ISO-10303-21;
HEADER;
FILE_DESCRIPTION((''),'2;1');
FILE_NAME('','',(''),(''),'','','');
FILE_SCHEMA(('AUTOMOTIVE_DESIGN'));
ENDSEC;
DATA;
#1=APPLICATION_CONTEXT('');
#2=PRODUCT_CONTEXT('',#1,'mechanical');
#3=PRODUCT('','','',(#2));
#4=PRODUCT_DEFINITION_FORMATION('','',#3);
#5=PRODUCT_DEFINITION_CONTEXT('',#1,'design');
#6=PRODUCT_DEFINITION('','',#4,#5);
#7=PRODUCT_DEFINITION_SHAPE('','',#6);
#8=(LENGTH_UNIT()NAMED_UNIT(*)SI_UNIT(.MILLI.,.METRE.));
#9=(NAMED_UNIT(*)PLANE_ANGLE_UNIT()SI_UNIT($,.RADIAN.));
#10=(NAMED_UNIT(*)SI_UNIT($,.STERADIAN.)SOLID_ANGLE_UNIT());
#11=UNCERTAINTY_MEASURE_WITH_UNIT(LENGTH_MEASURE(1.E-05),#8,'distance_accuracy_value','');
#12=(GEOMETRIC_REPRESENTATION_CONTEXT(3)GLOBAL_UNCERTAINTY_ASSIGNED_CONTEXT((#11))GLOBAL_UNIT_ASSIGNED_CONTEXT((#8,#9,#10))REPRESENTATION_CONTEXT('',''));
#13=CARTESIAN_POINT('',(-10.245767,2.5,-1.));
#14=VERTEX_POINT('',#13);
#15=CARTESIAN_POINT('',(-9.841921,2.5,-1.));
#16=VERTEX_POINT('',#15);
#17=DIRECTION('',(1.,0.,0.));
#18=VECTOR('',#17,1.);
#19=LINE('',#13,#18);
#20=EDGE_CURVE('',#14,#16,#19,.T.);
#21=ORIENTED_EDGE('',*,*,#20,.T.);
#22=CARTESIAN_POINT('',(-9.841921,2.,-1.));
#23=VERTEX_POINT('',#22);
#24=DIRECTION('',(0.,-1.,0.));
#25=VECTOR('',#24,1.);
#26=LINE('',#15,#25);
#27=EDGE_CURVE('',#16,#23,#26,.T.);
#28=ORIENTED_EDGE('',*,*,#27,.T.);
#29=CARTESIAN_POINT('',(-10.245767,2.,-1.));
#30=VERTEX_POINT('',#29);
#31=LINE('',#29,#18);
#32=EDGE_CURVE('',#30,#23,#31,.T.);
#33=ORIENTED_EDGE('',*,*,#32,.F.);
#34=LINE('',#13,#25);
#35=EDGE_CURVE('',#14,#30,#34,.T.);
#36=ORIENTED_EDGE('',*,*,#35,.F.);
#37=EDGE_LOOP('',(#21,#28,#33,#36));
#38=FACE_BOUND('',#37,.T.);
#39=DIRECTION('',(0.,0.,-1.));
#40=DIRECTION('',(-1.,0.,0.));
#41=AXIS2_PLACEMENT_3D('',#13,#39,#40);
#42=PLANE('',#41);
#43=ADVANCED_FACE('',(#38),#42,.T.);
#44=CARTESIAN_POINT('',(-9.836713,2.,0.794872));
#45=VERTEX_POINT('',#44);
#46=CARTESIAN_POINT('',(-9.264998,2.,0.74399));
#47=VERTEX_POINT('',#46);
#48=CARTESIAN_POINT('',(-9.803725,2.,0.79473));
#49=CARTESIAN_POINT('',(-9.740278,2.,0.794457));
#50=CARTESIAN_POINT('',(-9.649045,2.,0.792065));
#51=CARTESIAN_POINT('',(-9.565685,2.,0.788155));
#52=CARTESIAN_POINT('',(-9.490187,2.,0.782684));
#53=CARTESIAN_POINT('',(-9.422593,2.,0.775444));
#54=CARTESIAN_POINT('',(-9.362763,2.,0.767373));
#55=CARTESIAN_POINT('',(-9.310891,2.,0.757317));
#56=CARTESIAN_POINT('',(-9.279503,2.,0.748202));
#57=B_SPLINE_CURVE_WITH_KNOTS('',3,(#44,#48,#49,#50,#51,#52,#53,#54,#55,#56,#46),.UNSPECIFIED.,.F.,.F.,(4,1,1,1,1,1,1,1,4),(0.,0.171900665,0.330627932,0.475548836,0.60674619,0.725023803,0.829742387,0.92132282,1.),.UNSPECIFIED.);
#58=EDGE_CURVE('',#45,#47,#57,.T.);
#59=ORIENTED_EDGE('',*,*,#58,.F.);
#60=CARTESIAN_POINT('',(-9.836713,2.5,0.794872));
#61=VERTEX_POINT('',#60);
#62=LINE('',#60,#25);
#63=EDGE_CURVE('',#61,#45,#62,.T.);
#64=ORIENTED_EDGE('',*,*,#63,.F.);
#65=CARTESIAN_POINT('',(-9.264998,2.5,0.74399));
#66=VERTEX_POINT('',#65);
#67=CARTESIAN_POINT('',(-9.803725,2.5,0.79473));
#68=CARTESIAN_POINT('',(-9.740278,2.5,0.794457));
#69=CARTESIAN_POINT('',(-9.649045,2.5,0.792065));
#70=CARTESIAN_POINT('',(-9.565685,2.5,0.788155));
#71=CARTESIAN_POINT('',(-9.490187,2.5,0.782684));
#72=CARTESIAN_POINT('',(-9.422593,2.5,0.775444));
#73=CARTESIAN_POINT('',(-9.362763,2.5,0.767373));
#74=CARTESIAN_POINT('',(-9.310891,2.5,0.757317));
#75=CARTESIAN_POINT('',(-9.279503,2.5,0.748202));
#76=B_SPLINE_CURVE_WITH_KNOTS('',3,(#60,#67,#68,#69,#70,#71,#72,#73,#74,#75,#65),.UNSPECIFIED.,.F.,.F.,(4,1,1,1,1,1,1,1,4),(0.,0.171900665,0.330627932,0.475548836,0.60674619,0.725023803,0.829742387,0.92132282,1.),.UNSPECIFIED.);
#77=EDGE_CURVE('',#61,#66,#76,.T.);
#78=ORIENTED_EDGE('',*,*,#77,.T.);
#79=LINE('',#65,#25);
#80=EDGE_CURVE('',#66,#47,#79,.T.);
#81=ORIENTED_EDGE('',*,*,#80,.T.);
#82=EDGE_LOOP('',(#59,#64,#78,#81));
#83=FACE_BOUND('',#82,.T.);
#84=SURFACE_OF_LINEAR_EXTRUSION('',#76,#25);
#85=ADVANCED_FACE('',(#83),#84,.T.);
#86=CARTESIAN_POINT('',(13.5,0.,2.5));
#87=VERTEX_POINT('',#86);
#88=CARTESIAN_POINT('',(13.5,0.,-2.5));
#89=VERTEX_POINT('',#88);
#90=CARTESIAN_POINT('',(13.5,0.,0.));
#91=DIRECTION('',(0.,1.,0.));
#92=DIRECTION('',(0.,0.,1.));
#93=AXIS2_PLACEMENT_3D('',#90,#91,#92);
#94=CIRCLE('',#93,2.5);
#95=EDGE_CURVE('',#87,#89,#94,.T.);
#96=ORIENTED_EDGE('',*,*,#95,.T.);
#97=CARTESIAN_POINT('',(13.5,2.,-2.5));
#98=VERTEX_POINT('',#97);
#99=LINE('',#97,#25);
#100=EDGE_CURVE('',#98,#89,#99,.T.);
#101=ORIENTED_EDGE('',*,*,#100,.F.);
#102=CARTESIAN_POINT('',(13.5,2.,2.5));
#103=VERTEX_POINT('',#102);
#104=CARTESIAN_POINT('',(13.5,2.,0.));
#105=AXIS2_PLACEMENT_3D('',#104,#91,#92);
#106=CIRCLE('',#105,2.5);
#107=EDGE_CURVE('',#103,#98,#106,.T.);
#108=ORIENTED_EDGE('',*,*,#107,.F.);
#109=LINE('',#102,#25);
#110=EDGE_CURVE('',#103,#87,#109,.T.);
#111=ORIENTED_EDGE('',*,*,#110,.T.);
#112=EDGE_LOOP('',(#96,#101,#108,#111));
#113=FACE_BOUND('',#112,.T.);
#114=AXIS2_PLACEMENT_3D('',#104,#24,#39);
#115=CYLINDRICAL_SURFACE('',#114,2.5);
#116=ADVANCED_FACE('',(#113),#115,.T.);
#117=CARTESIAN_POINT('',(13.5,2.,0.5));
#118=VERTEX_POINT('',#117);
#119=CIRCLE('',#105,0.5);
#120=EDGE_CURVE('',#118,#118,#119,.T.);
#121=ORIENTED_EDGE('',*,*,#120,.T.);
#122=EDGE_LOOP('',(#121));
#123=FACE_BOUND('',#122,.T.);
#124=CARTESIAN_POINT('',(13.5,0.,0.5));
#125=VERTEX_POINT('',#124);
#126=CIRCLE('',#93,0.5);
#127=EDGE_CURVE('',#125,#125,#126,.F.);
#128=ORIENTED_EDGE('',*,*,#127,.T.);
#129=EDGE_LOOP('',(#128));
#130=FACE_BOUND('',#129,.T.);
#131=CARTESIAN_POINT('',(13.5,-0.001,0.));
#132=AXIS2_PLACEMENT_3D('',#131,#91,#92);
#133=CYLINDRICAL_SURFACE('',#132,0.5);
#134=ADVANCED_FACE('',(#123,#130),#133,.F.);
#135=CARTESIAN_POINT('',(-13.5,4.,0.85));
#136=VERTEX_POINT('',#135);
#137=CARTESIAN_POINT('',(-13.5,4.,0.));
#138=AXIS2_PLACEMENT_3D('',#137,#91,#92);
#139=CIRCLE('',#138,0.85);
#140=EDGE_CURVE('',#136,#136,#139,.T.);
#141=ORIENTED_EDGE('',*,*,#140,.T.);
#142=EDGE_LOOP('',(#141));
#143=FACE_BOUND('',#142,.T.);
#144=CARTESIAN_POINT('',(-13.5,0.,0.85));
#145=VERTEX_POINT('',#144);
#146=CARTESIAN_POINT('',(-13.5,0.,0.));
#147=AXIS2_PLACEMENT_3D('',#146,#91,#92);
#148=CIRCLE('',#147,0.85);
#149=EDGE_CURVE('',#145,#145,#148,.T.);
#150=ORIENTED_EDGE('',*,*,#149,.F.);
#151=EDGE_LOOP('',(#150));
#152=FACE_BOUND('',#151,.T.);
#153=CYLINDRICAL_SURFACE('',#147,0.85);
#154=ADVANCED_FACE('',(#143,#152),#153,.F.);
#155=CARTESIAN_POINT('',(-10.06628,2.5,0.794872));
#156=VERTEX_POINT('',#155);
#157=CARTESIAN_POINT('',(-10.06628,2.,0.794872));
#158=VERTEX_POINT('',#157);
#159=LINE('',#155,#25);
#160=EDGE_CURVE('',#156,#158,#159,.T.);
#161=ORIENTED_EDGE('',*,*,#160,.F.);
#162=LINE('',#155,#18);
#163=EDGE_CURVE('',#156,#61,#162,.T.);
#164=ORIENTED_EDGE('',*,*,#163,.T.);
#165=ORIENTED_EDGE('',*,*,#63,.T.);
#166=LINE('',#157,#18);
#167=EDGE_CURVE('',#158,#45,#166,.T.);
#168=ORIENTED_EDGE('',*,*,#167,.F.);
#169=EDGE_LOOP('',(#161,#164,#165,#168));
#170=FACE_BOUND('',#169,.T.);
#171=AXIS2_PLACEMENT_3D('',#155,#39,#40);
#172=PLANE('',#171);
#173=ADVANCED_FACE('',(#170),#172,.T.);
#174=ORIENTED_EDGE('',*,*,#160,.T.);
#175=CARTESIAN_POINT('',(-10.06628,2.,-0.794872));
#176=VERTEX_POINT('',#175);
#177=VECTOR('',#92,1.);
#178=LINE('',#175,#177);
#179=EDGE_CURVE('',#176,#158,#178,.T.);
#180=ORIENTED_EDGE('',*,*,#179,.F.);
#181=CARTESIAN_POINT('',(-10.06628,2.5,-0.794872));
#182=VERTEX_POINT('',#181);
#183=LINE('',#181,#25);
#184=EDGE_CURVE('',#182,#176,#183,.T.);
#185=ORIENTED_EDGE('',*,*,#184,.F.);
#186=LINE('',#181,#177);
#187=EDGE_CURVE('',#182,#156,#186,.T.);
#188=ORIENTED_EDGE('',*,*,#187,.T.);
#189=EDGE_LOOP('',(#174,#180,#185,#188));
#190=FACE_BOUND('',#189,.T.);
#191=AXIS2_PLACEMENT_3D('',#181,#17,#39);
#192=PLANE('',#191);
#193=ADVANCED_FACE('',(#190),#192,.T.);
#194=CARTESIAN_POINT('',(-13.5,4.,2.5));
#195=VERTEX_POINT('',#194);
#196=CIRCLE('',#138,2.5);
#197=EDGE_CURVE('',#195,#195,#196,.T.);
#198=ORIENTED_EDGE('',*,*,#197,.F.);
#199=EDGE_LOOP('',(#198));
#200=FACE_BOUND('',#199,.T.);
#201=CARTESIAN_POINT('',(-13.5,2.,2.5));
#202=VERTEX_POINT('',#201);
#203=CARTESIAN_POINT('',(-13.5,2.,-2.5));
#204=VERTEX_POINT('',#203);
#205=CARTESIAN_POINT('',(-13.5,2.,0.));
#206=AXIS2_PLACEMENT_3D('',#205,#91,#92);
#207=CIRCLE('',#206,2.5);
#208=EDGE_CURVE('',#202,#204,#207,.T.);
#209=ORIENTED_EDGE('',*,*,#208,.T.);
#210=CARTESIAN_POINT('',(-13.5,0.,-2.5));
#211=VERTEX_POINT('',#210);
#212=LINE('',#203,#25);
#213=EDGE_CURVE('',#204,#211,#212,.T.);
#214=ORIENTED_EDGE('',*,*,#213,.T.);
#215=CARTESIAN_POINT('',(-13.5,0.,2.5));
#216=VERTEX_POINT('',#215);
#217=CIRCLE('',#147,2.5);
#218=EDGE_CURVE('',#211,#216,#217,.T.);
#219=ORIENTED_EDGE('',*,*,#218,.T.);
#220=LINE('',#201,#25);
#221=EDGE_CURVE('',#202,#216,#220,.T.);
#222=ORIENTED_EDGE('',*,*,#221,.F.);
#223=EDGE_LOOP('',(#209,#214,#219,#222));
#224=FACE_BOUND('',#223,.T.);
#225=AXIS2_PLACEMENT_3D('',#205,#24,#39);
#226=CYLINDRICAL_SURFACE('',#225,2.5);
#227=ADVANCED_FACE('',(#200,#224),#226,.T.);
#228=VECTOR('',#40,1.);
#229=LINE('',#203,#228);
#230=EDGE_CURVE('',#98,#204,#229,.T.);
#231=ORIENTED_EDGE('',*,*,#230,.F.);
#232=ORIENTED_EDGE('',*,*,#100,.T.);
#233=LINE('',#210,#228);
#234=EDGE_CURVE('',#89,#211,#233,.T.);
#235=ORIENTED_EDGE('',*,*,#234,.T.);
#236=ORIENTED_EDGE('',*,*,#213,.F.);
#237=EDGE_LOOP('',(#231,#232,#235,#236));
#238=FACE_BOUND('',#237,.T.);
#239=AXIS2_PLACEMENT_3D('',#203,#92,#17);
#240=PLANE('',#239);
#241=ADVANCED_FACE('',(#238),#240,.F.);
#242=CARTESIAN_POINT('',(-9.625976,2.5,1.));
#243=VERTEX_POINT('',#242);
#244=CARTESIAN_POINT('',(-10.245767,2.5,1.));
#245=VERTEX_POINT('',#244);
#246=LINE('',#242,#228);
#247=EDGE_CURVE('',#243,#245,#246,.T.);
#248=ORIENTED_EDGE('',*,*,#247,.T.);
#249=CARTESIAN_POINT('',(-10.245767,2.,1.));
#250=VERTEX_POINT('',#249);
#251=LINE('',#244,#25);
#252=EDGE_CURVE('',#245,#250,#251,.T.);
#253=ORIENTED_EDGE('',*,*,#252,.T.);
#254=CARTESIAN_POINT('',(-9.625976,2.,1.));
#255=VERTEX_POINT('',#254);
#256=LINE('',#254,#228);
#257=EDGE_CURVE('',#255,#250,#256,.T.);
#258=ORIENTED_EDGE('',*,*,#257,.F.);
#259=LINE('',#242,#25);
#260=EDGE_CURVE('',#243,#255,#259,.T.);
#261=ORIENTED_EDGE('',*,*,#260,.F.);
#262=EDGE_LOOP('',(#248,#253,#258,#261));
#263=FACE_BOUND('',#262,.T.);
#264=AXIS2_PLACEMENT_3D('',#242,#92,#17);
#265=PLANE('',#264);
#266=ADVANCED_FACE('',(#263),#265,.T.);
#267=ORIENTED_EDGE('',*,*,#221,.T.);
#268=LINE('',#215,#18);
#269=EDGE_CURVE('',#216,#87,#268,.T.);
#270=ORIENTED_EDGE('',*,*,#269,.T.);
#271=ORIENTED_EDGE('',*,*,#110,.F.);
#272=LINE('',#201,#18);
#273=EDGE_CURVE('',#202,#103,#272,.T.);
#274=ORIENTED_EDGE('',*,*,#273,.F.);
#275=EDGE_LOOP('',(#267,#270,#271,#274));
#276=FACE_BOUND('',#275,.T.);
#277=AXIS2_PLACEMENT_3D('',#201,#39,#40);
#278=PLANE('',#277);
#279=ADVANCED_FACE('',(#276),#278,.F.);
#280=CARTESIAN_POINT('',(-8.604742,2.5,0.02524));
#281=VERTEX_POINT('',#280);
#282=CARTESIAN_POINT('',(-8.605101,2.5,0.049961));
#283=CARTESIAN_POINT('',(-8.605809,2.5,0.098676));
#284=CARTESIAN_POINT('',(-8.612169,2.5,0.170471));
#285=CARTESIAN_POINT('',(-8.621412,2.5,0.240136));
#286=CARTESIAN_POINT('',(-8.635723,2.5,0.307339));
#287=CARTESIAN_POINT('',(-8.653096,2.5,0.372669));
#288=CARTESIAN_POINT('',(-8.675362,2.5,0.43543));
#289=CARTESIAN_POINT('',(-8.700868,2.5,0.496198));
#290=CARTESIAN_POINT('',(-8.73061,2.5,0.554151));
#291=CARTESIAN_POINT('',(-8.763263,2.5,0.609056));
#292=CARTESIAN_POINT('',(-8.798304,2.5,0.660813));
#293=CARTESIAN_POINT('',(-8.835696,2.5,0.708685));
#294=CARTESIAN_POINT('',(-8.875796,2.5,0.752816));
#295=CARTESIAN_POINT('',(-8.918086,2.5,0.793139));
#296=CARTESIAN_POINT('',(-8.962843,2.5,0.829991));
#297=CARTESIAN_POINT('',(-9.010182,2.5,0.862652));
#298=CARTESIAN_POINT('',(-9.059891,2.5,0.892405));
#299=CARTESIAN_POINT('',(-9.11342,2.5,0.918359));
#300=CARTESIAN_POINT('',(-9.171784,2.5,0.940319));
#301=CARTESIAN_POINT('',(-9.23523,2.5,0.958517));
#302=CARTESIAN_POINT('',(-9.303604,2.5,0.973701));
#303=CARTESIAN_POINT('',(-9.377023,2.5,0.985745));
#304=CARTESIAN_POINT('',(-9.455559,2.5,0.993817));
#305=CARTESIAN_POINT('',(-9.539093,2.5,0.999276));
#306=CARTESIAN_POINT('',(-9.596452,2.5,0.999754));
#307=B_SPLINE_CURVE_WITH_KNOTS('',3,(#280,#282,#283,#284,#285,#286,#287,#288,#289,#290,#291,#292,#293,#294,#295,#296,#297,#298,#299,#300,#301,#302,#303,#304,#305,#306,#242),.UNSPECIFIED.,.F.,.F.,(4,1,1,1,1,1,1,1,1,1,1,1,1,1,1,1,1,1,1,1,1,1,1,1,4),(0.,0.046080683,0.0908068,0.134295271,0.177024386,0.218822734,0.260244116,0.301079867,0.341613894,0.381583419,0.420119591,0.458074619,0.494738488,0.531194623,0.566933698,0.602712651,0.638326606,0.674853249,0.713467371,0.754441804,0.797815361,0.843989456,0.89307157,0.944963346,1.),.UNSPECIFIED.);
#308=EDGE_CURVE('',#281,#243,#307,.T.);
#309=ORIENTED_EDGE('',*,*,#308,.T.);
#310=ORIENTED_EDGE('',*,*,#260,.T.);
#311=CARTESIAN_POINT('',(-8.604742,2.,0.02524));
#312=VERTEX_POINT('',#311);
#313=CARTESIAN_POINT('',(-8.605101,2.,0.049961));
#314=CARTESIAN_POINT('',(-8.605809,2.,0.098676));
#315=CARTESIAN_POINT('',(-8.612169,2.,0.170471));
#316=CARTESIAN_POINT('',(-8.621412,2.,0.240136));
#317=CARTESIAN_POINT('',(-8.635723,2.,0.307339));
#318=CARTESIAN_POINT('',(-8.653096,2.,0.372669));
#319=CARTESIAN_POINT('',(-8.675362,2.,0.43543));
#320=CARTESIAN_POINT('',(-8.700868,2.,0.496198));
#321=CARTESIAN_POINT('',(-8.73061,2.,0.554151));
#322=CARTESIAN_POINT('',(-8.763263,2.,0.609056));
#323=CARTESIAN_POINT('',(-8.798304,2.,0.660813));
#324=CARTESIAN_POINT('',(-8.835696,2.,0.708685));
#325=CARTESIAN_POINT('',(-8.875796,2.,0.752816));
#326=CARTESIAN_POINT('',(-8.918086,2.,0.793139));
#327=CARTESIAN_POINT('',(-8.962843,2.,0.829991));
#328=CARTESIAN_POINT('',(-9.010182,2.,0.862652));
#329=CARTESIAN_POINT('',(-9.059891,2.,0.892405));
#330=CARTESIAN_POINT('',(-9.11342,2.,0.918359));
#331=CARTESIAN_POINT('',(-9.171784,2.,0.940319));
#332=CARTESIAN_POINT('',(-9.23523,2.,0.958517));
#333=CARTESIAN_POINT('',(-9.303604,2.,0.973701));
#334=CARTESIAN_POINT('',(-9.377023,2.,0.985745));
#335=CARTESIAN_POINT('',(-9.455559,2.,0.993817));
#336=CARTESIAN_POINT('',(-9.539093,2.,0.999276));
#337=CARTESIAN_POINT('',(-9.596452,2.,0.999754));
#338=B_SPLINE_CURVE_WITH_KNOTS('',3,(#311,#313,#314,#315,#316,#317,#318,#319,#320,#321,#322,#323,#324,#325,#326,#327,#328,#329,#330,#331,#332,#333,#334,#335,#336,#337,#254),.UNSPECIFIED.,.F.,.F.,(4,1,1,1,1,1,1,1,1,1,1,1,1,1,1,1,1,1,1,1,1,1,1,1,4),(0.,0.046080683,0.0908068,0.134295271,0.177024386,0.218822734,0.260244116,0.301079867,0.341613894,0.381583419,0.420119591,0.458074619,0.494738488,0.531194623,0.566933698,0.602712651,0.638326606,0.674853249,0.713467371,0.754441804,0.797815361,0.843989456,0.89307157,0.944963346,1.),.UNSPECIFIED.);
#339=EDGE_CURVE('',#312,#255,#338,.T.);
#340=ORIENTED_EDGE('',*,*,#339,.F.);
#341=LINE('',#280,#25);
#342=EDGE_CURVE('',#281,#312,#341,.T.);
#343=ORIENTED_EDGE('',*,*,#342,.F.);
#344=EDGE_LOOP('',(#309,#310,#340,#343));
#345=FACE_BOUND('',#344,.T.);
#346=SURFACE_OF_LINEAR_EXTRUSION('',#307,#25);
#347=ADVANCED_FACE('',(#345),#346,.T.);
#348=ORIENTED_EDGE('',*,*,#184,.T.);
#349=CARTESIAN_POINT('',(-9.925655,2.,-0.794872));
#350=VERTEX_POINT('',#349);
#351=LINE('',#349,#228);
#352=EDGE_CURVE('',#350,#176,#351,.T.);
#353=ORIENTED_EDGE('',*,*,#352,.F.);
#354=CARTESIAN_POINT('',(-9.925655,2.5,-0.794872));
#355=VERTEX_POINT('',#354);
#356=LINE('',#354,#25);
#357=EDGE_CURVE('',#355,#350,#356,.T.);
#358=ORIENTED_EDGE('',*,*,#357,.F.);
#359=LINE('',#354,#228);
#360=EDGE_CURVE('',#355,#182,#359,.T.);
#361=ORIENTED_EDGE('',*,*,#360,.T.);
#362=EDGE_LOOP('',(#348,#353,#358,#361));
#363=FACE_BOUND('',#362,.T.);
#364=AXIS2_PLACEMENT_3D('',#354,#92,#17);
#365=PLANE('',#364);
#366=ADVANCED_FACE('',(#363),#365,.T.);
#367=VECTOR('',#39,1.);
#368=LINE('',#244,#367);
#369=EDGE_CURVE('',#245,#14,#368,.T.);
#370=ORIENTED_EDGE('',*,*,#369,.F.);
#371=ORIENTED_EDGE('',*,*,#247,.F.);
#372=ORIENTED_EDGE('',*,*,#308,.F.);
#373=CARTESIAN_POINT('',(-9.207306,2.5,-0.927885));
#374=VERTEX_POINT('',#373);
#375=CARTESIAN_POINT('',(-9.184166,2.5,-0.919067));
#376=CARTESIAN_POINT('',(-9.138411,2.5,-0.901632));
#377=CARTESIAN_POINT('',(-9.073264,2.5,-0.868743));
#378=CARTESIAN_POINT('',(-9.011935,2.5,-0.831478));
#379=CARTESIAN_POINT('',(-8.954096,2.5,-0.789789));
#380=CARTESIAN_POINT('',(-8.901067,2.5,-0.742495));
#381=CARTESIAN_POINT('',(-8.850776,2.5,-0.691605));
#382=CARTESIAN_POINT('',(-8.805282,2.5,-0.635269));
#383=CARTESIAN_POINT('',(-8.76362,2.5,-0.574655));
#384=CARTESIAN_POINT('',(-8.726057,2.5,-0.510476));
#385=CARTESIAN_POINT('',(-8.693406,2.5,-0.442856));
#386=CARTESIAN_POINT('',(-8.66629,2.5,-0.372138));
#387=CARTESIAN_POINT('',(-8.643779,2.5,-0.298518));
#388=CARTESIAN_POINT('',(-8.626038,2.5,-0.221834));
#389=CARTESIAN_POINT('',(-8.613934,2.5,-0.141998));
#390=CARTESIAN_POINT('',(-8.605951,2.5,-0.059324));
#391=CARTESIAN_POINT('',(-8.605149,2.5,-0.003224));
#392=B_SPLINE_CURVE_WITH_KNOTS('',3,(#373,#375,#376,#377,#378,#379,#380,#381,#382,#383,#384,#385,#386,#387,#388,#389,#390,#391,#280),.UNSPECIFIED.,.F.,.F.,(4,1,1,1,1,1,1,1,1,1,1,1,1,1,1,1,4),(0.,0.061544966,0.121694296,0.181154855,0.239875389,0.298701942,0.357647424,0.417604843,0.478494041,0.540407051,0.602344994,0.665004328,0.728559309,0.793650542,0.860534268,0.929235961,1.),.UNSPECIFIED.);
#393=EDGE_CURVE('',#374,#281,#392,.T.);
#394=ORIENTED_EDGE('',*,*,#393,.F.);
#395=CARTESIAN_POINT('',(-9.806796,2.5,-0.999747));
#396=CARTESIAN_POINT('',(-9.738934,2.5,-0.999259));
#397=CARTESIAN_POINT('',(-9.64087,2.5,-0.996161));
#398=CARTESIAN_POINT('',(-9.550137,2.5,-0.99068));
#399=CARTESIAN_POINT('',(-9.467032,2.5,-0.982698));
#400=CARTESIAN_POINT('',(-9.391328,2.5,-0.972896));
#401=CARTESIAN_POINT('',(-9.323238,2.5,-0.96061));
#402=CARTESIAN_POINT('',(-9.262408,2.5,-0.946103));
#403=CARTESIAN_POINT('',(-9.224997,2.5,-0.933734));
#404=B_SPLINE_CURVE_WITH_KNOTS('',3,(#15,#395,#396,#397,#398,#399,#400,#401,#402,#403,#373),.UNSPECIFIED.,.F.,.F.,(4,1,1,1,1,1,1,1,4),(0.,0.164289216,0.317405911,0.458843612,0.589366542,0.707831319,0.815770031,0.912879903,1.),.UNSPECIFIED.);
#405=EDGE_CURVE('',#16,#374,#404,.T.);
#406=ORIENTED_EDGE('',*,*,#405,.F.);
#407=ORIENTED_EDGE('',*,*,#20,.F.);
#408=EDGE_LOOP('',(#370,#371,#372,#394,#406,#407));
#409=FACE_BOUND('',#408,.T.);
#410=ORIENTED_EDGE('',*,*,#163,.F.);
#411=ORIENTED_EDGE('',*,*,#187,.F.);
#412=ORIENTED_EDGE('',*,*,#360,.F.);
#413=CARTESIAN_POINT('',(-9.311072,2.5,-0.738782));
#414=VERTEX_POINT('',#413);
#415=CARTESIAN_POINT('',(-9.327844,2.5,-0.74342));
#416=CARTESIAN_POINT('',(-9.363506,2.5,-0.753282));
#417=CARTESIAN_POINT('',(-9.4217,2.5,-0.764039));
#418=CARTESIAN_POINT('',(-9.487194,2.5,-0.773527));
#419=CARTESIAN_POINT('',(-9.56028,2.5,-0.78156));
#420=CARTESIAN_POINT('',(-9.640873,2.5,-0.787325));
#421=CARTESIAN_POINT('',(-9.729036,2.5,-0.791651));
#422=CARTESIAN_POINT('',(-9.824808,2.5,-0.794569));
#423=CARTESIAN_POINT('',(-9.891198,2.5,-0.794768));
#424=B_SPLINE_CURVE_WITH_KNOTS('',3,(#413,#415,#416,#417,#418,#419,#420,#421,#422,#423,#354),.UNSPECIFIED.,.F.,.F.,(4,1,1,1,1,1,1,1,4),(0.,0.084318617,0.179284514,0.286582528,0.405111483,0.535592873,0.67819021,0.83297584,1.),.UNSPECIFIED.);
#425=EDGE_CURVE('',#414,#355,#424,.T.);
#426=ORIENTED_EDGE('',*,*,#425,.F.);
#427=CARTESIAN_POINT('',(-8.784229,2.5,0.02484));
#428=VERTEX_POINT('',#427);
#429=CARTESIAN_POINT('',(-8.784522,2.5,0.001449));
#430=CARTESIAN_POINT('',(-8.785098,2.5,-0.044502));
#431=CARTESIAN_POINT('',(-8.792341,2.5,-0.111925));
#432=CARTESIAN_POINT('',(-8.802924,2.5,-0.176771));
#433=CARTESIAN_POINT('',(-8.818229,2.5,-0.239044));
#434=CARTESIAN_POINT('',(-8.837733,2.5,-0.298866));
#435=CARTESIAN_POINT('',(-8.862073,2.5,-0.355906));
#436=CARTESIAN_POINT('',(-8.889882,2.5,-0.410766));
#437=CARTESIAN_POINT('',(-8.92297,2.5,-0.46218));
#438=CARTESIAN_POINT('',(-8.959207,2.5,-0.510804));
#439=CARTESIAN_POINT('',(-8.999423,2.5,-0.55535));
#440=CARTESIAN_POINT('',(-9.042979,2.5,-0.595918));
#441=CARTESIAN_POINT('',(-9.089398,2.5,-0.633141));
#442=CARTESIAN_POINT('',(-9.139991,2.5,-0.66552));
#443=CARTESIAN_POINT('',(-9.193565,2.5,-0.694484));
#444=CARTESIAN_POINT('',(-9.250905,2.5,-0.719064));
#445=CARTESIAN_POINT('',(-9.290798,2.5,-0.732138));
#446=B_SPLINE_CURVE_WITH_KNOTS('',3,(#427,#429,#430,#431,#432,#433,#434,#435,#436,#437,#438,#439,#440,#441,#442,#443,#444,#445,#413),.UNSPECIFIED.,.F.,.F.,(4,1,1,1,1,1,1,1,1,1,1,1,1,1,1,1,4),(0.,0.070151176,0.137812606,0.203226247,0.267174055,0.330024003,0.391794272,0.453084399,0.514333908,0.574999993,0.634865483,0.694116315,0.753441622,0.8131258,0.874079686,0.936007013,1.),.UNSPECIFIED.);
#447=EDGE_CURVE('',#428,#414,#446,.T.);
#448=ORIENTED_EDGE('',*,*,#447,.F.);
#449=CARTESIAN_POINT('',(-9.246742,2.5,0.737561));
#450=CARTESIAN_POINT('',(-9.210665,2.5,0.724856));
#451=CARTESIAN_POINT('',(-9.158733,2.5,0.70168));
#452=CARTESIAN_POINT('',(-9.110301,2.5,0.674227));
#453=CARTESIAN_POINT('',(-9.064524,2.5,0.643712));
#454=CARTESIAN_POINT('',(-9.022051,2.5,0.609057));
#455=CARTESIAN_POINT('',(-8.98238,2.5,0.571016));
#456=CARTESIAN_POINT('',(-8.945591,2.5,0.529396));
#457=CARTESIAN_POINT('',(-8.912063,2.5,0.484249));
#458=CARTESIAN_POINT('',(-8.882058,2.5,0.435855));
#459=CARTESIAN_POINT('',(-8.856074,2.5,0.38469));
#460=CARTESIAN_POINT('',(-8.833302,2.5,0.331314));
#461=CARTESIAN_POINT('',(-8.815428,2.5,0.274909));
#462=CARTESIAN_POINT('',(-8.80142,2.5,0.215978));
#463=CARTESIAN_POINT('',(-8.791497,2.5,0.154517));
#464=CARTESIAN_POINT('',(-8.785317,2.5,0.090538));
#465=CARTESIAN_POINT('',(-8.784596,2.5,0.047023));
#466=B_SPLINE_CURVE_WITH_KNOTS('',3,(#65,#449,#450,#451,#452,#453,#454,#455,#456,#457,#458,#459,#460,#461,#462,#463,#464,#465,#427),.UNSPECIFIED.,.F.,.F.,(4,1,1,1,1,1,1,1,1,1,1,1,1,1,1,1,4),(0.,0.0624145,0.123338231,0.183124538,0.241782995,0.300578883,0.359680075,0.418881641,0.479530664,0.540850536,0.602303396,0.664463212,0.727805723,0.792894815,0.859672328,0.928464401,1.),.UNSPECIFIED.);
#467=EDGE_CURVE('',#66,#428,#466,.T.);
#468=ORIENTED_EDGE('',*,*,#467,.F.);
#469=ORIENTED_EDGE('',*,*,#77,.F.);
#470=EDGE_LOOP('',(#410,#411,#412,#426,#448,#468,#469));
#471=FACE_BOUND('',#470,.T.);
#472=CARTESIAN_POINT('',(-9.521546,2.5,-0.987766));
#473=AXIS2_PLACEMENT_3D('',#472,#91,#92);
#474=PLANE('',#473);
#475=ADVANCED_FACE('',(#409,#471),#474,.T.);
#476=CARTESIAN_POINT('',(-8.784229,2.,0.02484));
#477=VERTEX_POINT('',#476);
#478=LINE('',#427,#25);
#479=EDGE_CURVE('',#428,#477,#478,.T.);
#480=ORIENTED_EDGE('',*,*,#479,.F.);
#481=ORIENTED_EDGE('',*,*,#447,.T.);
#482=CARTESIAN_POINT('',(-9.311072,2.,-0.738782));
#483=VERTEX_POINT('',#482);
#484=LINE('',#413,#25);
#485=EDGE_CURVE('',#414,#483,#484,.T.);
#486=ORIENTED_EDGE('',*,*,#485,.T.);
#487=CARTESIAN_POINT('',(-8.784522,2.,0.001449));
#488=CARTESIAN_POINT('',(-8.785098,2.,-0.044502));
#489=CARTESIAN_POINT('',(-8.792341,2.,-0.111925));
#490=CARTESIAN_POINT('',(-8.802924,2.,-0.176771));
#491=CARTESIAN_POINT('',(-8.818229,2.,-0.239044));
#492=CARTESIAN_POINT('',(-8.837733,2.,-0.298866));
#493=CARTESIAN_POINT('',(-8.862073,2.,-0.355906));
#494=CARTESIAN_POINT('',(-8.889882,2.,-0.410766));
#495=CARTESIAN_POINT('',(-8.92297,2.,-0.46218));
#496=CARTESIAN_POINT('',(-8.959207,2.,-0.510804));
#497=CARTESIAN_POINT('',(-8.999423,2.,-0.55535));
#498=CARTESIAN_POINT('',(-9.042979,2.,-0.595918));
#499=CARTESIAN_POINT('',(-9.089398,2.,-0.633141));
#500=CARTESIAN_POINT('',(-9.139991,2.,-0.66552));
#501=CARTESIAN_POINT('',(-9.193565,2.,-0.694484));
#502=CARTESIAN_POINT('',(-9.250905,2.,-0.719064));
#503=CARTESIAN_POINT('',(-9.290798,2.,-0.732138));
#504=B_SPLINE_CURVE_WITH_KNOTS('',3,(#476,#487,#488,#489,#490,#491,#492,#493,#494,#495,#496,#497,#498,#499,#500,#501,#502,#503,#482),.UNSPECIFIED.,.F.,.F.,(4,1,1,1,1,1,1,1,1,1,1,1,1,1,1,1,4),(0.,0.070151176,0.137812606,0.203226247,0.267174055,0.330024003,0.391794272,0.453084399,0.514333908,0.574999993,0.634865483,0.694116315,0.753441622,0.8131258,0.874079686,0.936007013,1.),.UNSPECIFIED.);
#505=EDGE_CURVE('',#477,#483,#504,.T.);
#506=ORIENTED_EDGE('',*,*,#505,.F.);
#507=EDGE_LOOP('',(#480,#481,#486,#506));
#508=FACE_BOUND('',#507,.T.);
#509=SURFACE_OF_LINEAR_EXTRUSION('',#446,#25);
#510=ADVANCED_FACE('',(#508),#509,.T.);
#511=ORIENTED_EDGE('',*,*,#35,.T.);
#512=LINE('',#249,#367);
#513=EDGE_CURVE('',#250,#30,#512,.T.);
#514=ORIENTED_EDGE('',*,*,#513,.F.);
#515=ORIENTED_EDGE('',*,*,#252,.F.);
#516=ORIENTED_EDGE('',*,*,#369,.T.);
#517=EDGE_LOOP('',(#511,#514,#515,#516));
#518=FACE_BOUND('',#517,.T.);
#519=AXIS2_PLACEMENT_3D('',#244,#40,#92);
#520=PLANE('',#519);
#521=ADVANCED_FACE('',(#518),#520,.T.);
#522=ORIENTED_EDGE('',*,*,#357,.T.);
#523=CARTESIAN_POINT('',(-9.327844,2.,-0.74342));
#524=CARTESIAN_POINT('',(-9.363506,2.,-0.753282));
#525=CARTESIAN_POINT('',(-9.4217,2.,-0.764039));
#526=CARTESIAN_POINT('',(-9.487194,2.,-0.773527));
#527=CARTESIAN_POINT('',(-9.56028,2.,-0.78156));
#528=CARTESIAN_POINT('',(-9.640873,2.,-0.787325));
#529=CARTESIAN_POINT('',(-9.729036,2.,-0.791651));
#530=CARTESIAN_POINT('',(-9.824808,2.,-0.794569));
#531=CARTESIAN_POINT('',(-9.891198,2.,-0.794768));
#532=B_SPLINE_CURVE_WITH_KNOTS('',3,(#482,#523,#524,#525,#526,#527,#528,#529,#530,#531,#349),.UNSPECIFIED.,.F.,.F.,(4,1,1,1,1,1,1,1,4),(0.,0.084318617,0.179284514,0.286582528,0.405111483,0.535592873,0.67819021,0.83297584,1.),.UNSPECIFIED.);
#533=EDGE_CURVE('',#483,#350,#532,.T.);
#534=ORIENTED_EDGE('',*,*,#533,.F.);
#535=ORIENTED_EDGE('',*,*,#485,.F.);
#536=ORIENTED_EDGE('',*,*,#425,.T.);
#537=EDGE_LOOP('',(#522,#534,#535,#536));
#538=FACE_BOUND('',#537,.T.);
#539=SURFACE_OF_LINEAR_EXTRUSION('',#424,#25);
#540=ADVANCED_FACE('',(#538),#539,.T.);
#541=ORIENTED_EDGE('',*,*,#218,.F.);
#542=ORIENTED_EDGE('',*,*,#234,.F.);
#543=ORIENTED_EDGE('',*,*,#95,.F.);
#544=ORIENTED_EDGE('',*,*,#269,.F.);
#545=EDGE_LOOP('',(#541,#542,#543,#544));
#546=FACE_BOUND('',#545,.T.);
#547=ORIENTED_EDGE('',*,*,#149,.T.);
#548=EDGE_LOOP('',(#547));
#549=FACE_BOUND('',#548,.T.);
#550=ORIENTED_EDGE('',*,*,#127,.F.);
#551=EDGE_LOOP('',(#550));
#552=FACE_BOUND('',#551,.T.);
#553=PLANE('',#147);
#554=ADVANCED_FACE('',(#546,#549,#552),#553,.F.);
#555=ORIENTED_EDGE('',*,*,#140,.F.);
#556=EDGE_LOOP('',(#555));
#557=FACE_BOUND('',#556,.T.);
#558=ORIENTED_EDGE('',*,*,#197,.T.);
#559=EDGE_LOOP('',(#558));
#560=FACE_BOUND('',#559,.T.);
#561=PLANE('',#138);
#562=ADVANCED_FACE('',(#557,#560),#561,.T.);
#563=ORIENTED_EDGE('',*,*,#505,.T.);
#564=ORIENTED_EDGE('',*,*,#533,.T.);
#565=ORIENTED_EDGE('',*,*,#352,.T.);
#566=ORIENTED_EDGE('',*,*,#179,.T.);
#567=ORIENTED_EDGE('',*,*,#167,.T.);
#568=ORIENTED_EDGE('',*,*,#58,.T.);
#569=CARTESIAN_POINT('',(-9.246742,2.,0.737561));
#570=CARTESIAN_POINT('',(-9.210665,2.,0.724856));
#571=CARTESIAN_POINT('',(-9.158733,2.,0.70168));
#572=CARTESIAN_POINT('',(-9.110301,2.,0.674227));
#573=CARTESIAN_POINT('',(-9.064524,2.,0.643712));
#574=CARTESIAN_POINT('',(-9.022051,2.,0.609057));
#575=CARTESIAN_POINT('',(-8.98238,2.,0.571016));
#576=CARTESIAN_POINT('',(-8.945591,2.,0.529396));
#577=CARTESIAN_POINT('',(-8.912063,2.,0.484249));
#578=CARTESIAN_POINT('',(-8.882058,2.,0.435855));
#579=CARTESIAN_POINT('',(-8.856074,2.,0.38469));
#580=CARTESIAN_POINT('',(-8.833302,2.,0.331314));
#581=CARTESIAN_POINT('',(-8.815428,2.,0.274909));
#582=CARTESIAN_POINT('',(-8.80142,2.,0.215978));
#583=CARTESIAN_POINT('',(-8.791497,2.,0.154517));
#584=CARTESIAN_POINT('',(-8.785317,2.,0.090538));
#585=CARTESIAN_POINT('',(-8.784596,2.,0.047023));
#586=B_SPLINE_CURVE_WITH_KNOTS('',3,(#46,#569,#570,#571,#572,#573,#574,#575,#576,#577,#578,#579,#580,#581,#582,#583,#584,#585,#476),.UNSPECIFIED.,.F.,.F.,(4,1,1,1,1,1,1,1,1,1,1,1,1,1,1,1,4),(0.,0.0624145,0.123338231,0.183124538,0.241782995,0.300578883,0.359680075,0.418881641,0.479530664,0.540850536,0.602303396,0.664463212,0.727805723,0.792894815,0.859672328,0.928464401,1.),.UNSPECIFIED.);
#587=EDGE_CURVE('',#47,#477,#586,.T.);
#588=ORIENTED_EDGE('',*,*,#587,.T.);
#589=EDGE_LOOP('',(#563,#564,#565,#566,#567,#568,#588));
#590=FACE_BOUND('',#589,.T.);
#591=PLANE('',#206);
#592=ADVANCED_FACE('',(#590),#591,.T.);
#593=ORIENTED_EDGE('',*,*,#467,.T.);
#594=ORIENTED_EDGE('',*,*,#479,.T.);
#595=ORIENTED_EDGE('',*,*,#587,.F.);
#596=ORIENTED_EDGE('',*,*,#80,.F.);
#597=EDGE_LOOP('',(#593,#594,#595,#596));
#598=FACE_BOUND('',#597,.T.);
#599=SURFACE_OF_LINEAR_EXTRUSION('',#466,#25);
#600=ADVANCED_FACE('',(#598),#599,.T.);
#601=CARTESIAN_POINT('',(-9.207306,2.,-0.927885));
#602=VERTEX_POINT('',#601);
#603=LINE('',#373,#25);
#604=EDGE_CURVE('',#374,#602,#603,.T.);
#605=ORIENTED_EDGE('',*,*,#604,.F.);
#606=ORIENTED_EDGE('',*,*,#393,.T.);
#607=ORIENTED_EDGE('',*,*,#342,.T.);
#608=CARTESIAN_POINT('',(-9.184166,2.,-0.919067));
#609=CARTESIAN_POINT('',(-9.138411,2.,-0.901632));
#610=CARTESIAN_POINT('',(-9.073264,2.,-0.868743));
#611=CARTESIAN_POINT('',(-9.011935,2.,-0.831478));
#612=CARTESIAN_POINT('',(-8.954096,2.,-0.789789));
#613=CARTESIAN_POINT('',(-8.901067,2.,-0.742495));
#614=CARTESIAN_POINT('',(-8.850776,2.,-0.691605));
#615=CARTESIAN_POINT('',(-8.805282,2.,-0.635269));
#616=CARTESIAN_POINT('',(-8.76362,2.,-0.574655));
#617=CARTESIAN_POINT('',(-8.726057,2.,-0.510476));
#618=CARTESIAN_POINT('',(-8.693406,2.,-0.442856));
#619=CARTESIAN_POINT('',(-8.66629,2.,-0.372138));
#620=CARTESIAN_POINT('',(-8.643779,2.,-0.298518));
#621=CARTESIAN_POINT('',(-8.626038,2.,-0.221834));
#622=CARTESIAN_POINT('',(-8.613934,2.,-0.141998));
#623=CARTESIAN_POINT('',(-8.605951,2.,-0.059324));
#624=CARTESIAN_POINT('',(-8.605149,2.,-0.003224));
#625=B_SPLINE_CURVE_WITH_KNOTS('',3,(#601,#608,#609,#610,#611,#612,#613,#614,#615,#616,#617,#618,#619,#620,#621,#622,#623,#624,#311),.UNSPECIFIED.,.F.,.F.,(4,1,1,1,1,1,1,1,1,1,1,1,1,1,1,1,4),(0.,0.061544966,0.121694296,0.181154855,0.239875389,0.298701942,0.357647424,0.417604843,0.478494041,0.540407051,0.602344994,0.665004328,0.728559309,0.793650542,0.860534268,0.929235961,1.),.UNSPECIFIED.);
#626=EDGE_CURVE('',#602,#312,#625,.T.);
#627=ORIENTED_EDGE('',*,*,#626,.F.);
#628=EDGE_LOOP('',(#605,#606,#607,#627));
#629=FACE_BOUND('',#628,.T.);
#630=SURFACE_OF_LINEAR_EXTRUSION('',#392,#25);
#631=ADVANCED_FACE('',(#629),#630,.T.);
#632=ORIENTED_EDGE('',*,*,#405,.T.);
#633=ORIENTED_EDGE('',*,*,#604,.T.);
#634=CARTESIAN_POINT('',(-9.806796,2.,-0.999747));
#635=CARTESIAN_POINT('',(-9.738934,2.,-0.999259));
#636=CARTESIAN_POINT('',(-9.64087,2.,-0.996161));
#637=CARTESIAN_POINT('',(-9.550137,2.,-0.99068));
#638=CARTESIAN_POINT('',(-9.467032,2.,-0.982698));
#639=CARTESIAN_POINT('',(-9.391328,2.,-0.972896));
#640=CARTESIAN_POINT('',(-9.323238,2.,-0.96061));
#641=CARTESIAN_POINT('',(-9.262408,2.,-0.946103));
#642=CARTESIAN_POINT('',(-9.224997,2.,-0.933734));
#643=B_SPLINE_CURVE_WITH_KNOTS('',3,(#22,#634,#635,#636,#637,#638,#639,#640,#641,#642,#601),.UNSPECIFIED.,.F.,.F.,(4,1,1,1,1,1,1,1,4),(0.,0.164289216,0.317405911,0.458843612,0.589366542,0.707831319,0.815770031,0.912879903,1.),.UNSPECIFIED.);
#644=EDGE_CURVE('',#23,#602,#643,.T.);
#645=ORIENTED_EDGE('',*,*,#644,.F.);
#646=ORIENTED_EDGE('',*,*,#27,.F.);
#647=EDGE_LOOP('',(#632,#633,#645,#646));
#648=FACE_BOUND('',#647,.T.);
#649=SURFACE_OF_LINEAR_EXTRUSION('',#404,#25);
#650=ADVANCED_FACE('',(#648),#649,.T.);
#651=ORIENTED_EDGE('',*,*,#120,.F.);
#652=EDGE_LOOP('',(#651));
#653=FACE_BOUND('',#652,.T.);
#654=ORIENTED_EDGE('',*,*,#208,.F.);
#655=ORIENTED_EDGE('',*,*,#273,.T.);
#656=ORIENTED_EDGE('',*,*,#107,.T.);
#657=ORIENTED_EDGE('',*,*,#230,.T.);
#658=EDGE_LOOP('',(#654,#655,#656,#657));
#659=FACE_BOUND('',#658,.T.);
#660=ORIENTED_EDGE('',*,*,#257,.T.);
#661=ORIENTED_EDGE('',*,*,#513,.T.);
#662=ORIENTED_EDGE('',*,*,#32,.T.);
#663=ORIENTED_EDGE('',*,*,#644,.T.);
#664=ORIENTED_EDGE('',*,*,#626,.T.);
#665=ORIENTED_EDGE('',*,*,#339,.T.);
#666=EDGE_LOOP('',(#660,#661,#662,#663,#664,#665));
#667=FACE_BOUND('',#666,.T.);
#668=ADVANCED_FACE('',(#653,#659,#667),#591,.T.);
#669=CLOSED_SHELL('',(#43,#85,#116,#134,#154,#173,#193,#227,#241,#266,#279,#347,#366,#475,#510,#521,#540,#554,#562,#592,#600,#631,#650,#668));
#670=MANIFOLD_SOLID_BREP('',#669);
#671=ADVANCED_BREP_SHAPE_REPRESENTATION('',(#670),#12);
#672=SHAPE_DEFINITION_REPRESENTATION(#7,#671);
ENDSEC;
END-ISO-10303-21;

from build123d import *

# Parameters (mm, degrees)
RESSALTO_EXTRUS_O1_DEPTH = 2
ESBO_O4_R                = 2.5
RESSALTO_EXTRUS_O2_DEPTH = 2
ESBO_O2_R                = 0.85
CORTE_EXTRUS_O1_DEPTH    = 17.680827318
CORTE_EXTRUS_O2_REACH    = 18.317
ESBO_O3_R                = 0.5
RESSALTO_EXTRUS_O3_DEPTH = 0.5


with BuildPart() as part:
    # Esboço1 → Ressalto-extrusão1 (new body)
    with BuildSketch(Plane(origin=(0, 0, 0), x_dir=(1, 0, 0), z_dir=(0, 1, 0))):
        with BuildLine():
            Line((-13.5, 2.5), (13.5, 2.5))
            ThreePointArc((13.5, 2.5), (16, 0), (13.5, -2.5))
            Line((13.5, -2.5), (-13.5, -2.5))
            ThreePointArc((-13.5, -2.5), (-16, 0), (-13.5, 2.5))
        make_face()
    extrude(amount=RESSALTO_EXTRUS_O1_DEPTH)

    # Esboço4 → Ressalto-extrusão2 (add)
    with BuildSketch(Plane(origin=(0, 2, 0), x_dir=(1, 0, 0), z_dir=(0, 1, 0))):
        with Locations(Location((-13.5, 0, 0), (0, 0, 270))):
            Circle(ESBO_O4_R)
    extrude(amount=RESSALTO_EXTRUS_O2_DEPTH)

    # Esboço2 → Corte-extrusão1 (cut, through all)
    with BuildSketch(Plane(origin=(0, 4, 0), x_dir=(1, 0, 0), z_dir=(0, 1, 0))):
        with Locations(Location((-13.5, 0, 0), (0, 0, 270))):
            Circle(ESBO_O2_R)
    extrude(amount=-CORTE_EXTRUS_O1_DEPTH, mode=Mode.SUBTRACT)

    # Esboço3 → Corte-extrusão2 (cut, up to next)
    with BuildSketch(Plane(origin=(0, 2, 0), x_dir=(1, 0, 0), z_dir=(0, 1, 0)), mode=Mode.PRIVATE) as corte_extrus_o2_sk1:
        with Locations(Location((13.5, 0, 0), (0, 0, 270))):
            Circle(ESBO_O3_R)
    corte_extrus_o2_tool1 = extrude(corte_extrus_o2_sk1.sketch, amount=-CORTE_EXTRUS_O2_REACH, mode=Mode.PRIVATE) & part.part
    add(corte_extrus_o2_tool1.solids().sort_by_distance((13.5, 2, 0))[0], mode=Mode.SUBTRACT)

    # Esboço5 → Ressalto-extrusão3 (add)
    with BuildSketch(Plane(origin=(0, 2, 0), x_dir=(1, 0, 0), z_dir=(0, 1, 0))):
        with BuildLine():
            Line((-10.245767212, -1), (-10.245767212, 1))
            Line((-10.245767212, 1), (-9.841921058, 1))
            add(Edge.make_bspline(
                [(-9.841921058, 1), (-9.806795922, 0.999747103), (-9.738934342, 0.999258507), (-9.640870086, 0.996160569), (-9.550136507, 0.990680303), (-9.467032017, 0.982697717), (-9.391328467, 0.972895983), (-9.323237834, 0.960610038), (-9.262408038, 0.946102512), (-9.224996929, 0.933733683), (-9.207305673, 0.927884615)],
                knots=[0, 0, 0, 0, 1.314313732, 2.53924729, 3.670748893, 4.714932338, 5.66265055, 6.526160246, 7.303039223, 8, 8, 8, 8], degree=3))
            add(Edge.make_bspline(
                [(-9.207305673, 0.927884615), (-9.184165822, 0.919067069), (-9.138410855, 0.90163193), (-9.073263928, 0.868742615), (-9.011935149, 0.831477985), (-8.954095638, 0.789788921), (-8.901066594, 0.742495007), (-8.850776368, 0.691605244), (-8.80528224, 0.63526905), (-8.763620356, 0.574654771), (-8.726057122, 0.510476455), (-8.693406175, 0.442856393), (-8.666289607, 0.372137989), (-8.643779192, 0.298517904), (-8.626038359, 0.22183426), (-8.613934398, 0.141997765), (-8.605950975, 0.059323942), (-8.60514866, 0.003224249), (-8.604741571, -0.025240385)],
                knots=[0, 0, 0, 0, 0.984719456, 1.947108742, 2.898477687, 3.838006223, 4.779231079, 5.722358779, 6.681677486, 7.655904652, 8.64651281, 9.637519902, 10.640069247, 11.656948941, 12.698408672, 13.768548281, 14.867775369, 16, 16, 16, 16], degree=3))
            add(Edge.make_bspline(
                [(-8.604741571, -0.025240385), (-8.605100981, -0.049961092), (-8.605809236, -0.098675829), (-8.612168845, -0.170470626), (-8.621412456, -0.240135524), (-8.635723426, -0.307338781), (-8.653096291, -0.372669192), (-8.675361521, -0.435430474), (-8.700867518, -0.496198365), (-8.730610306, -0.554151209), (-8.763262526, -0.609055993), (-8.798303522, -0.660813437), (-8.83569592, -0.708684993), (-8.875796281, -0.752815628), (-8.918086405, -0.793138816), (-8.962843165, -0.829991396), (-9.010182051, -0.862652284), (-9.059891036, -0.892404918), (-9.113420253, -0.918359407), (-9.171783605, -0.940319412), (-9.235229992, -0.958517478), (-9.303603682, -0.973700847), (-9.377022812, -0.98574502), (-9.455559364, -0.993817244), (-9.539092672, -0.999276063), (-9.596452252, -0.999754002), (-9.625975545, -1)],
                knots=[0, 0, 0, 0, 1.105936401, 2.179363191, 3.223086493, 4.248585256, 5.251745608, 6.245858792, 7.225916811, 8.198733463, 9.158002045, 10.082870192, 10.993790845, 11.873723703, 12.748670949, 13.606408763, 14.465103618, 15.319838547, 16.196477973, 17.123216899, 18.106603292, 19.147568657, 20.255746949, 21.433717677, 22.679120308, 24, 24, 24, 24], degree=3))
            Line((-9.625975545, -1), (-10.245767212, -1))
        make_face()
        with BuildLine():
            Line((-10.066280032, -0.794871795), (-9.836712725, -0.794871795))
            add(Edge.make_bspline(
                [(-9.836712725, -0.794871795), (-9.803725084, -0.794730026), (-9.740277771, -0.794457351), (-9.64904463, -0.792064664), (-9.565684974, -0.788154985), (-9.490186969, -0.782683512), (-9.422593241, -0.775444303), (-9.362762527, -0.76737293), (-9.31089095, -0.757317244), (-9.279502701, -0.74820241), (-9.264997981, -0.743990385)],
                knots=[0, 0, 0, 0, 1.375205317, 2.645023457, 3.804390687, 4.853969522, 5.800190428, 6.637939096, 7.370582563, 8, 8, 8, 8], degree=3))
            add(Edge.make_bspline(
                [(-9.264997981, -0.743990385), (-9.246741774, -0.737560923), (-9.21066541, -0.724855567), (-9.158733361, -0.70167976), (-9.110300787, -0.674227149), (-9.064523629, -0.643711564), (-9.022051255, -0.609056706), (-8.982380331, -0.57101614), (-8.945590731, -0.529396269), (-8.912062555, -0.484248748), (-8.882057809, -0.435854579), (-8.85607425, -0.384689531), (-8.833301946, -0.331314211), (-8.815428464, -0.274908978), (-8.801419559, -0.215978087), (-8.79149688, -0.154517394), (-8.785317038, -0.090538376), (-8.78459621, -0.047022876), (-8.78422875, -0.024839744)],
                knots=[0, 0, 0, 0, 0.998632004, 1.973411704, 2.929992603, 3.868527914, 4.809262121, 5.754881198, 6.702106254, 7.672490631, 8.653608572, 9.636854334, 10.631411391, 11.644891563, 12.686317036, 13.754757253, 14.855430412, 16, 16, 16, 16], degree=3))
            add(Edge.make_bspline(
                [(-8.78422875, -0.024839744), (-8.784522057, -0.001449183), (-8.785098262, 0.044501779), (-8.792340725, 0.111925034), (-8.802924471, 0.17677112), (-8.818229434, 0.239044374), (-8.837732794, 0.29886629), (-8.862072589, 0.35590601), (-8.889882086, 0.410765935), (-8.922969707, 0.462179858), (-8.959207189, 0.510804492), (-8.99942312, 0.555350158), (-9.04297857, 0.595918329), (-9.089398484, 0.633140794), (-9.139991112, 0.665520037), (-9.19356465, 0.694483855), (-9.250905033, 0.719064364), (-9.290798003, 0.732138), (-9.311071699, 0.738782051)],
                knots=[0, 0, 0, 0, 1.122418816, 2.205001699, 3.251619955, 4.274784885, 5.280384055, 6.268708349, 7.249350384, 8.229342522, 9.199999885, 10.157847722, 11.105861043, 12.055065948, 13.010012805, 13.98527497, 14.976112212, 16, 16, 16, 16], degree=3))
            add(Edge.make_bspline(
                [(-9.311071699, 0.738782051), (-9.327843783, 0.74342001), (-9.363505834, 0.753281583), (-9.421699814, 0.764038939), (-9.487194185, 0.773527224), (-9.560279728, 0.781560389), (-9.640873134, 0.787324573), (-9.729036384, 0.791651038), (-9.824807586, 0.794569114), (-9.891197606, 0.794768375), (-9.925655032, 0.794871795)],
                knots=[0, 0, 0, 0, 0.674548936, 1.434276114, 2.292660221, 3.240891867, 4.284742987, 5.42552168, 6.663806718, 8, 8, 8, 8], degree=3))
            Line((-9.925655032, 0.794871795), (-10.066280032, 0.794871795))
            Line((-10.066280032, 0.794871795), (-10.066280032, -0.794871795))
        make_face(mode=Mode.SUBTRACT)
    extrude(amount=RESSALTO_EXTRUS_O3_DEPTH)


solid = part.part
